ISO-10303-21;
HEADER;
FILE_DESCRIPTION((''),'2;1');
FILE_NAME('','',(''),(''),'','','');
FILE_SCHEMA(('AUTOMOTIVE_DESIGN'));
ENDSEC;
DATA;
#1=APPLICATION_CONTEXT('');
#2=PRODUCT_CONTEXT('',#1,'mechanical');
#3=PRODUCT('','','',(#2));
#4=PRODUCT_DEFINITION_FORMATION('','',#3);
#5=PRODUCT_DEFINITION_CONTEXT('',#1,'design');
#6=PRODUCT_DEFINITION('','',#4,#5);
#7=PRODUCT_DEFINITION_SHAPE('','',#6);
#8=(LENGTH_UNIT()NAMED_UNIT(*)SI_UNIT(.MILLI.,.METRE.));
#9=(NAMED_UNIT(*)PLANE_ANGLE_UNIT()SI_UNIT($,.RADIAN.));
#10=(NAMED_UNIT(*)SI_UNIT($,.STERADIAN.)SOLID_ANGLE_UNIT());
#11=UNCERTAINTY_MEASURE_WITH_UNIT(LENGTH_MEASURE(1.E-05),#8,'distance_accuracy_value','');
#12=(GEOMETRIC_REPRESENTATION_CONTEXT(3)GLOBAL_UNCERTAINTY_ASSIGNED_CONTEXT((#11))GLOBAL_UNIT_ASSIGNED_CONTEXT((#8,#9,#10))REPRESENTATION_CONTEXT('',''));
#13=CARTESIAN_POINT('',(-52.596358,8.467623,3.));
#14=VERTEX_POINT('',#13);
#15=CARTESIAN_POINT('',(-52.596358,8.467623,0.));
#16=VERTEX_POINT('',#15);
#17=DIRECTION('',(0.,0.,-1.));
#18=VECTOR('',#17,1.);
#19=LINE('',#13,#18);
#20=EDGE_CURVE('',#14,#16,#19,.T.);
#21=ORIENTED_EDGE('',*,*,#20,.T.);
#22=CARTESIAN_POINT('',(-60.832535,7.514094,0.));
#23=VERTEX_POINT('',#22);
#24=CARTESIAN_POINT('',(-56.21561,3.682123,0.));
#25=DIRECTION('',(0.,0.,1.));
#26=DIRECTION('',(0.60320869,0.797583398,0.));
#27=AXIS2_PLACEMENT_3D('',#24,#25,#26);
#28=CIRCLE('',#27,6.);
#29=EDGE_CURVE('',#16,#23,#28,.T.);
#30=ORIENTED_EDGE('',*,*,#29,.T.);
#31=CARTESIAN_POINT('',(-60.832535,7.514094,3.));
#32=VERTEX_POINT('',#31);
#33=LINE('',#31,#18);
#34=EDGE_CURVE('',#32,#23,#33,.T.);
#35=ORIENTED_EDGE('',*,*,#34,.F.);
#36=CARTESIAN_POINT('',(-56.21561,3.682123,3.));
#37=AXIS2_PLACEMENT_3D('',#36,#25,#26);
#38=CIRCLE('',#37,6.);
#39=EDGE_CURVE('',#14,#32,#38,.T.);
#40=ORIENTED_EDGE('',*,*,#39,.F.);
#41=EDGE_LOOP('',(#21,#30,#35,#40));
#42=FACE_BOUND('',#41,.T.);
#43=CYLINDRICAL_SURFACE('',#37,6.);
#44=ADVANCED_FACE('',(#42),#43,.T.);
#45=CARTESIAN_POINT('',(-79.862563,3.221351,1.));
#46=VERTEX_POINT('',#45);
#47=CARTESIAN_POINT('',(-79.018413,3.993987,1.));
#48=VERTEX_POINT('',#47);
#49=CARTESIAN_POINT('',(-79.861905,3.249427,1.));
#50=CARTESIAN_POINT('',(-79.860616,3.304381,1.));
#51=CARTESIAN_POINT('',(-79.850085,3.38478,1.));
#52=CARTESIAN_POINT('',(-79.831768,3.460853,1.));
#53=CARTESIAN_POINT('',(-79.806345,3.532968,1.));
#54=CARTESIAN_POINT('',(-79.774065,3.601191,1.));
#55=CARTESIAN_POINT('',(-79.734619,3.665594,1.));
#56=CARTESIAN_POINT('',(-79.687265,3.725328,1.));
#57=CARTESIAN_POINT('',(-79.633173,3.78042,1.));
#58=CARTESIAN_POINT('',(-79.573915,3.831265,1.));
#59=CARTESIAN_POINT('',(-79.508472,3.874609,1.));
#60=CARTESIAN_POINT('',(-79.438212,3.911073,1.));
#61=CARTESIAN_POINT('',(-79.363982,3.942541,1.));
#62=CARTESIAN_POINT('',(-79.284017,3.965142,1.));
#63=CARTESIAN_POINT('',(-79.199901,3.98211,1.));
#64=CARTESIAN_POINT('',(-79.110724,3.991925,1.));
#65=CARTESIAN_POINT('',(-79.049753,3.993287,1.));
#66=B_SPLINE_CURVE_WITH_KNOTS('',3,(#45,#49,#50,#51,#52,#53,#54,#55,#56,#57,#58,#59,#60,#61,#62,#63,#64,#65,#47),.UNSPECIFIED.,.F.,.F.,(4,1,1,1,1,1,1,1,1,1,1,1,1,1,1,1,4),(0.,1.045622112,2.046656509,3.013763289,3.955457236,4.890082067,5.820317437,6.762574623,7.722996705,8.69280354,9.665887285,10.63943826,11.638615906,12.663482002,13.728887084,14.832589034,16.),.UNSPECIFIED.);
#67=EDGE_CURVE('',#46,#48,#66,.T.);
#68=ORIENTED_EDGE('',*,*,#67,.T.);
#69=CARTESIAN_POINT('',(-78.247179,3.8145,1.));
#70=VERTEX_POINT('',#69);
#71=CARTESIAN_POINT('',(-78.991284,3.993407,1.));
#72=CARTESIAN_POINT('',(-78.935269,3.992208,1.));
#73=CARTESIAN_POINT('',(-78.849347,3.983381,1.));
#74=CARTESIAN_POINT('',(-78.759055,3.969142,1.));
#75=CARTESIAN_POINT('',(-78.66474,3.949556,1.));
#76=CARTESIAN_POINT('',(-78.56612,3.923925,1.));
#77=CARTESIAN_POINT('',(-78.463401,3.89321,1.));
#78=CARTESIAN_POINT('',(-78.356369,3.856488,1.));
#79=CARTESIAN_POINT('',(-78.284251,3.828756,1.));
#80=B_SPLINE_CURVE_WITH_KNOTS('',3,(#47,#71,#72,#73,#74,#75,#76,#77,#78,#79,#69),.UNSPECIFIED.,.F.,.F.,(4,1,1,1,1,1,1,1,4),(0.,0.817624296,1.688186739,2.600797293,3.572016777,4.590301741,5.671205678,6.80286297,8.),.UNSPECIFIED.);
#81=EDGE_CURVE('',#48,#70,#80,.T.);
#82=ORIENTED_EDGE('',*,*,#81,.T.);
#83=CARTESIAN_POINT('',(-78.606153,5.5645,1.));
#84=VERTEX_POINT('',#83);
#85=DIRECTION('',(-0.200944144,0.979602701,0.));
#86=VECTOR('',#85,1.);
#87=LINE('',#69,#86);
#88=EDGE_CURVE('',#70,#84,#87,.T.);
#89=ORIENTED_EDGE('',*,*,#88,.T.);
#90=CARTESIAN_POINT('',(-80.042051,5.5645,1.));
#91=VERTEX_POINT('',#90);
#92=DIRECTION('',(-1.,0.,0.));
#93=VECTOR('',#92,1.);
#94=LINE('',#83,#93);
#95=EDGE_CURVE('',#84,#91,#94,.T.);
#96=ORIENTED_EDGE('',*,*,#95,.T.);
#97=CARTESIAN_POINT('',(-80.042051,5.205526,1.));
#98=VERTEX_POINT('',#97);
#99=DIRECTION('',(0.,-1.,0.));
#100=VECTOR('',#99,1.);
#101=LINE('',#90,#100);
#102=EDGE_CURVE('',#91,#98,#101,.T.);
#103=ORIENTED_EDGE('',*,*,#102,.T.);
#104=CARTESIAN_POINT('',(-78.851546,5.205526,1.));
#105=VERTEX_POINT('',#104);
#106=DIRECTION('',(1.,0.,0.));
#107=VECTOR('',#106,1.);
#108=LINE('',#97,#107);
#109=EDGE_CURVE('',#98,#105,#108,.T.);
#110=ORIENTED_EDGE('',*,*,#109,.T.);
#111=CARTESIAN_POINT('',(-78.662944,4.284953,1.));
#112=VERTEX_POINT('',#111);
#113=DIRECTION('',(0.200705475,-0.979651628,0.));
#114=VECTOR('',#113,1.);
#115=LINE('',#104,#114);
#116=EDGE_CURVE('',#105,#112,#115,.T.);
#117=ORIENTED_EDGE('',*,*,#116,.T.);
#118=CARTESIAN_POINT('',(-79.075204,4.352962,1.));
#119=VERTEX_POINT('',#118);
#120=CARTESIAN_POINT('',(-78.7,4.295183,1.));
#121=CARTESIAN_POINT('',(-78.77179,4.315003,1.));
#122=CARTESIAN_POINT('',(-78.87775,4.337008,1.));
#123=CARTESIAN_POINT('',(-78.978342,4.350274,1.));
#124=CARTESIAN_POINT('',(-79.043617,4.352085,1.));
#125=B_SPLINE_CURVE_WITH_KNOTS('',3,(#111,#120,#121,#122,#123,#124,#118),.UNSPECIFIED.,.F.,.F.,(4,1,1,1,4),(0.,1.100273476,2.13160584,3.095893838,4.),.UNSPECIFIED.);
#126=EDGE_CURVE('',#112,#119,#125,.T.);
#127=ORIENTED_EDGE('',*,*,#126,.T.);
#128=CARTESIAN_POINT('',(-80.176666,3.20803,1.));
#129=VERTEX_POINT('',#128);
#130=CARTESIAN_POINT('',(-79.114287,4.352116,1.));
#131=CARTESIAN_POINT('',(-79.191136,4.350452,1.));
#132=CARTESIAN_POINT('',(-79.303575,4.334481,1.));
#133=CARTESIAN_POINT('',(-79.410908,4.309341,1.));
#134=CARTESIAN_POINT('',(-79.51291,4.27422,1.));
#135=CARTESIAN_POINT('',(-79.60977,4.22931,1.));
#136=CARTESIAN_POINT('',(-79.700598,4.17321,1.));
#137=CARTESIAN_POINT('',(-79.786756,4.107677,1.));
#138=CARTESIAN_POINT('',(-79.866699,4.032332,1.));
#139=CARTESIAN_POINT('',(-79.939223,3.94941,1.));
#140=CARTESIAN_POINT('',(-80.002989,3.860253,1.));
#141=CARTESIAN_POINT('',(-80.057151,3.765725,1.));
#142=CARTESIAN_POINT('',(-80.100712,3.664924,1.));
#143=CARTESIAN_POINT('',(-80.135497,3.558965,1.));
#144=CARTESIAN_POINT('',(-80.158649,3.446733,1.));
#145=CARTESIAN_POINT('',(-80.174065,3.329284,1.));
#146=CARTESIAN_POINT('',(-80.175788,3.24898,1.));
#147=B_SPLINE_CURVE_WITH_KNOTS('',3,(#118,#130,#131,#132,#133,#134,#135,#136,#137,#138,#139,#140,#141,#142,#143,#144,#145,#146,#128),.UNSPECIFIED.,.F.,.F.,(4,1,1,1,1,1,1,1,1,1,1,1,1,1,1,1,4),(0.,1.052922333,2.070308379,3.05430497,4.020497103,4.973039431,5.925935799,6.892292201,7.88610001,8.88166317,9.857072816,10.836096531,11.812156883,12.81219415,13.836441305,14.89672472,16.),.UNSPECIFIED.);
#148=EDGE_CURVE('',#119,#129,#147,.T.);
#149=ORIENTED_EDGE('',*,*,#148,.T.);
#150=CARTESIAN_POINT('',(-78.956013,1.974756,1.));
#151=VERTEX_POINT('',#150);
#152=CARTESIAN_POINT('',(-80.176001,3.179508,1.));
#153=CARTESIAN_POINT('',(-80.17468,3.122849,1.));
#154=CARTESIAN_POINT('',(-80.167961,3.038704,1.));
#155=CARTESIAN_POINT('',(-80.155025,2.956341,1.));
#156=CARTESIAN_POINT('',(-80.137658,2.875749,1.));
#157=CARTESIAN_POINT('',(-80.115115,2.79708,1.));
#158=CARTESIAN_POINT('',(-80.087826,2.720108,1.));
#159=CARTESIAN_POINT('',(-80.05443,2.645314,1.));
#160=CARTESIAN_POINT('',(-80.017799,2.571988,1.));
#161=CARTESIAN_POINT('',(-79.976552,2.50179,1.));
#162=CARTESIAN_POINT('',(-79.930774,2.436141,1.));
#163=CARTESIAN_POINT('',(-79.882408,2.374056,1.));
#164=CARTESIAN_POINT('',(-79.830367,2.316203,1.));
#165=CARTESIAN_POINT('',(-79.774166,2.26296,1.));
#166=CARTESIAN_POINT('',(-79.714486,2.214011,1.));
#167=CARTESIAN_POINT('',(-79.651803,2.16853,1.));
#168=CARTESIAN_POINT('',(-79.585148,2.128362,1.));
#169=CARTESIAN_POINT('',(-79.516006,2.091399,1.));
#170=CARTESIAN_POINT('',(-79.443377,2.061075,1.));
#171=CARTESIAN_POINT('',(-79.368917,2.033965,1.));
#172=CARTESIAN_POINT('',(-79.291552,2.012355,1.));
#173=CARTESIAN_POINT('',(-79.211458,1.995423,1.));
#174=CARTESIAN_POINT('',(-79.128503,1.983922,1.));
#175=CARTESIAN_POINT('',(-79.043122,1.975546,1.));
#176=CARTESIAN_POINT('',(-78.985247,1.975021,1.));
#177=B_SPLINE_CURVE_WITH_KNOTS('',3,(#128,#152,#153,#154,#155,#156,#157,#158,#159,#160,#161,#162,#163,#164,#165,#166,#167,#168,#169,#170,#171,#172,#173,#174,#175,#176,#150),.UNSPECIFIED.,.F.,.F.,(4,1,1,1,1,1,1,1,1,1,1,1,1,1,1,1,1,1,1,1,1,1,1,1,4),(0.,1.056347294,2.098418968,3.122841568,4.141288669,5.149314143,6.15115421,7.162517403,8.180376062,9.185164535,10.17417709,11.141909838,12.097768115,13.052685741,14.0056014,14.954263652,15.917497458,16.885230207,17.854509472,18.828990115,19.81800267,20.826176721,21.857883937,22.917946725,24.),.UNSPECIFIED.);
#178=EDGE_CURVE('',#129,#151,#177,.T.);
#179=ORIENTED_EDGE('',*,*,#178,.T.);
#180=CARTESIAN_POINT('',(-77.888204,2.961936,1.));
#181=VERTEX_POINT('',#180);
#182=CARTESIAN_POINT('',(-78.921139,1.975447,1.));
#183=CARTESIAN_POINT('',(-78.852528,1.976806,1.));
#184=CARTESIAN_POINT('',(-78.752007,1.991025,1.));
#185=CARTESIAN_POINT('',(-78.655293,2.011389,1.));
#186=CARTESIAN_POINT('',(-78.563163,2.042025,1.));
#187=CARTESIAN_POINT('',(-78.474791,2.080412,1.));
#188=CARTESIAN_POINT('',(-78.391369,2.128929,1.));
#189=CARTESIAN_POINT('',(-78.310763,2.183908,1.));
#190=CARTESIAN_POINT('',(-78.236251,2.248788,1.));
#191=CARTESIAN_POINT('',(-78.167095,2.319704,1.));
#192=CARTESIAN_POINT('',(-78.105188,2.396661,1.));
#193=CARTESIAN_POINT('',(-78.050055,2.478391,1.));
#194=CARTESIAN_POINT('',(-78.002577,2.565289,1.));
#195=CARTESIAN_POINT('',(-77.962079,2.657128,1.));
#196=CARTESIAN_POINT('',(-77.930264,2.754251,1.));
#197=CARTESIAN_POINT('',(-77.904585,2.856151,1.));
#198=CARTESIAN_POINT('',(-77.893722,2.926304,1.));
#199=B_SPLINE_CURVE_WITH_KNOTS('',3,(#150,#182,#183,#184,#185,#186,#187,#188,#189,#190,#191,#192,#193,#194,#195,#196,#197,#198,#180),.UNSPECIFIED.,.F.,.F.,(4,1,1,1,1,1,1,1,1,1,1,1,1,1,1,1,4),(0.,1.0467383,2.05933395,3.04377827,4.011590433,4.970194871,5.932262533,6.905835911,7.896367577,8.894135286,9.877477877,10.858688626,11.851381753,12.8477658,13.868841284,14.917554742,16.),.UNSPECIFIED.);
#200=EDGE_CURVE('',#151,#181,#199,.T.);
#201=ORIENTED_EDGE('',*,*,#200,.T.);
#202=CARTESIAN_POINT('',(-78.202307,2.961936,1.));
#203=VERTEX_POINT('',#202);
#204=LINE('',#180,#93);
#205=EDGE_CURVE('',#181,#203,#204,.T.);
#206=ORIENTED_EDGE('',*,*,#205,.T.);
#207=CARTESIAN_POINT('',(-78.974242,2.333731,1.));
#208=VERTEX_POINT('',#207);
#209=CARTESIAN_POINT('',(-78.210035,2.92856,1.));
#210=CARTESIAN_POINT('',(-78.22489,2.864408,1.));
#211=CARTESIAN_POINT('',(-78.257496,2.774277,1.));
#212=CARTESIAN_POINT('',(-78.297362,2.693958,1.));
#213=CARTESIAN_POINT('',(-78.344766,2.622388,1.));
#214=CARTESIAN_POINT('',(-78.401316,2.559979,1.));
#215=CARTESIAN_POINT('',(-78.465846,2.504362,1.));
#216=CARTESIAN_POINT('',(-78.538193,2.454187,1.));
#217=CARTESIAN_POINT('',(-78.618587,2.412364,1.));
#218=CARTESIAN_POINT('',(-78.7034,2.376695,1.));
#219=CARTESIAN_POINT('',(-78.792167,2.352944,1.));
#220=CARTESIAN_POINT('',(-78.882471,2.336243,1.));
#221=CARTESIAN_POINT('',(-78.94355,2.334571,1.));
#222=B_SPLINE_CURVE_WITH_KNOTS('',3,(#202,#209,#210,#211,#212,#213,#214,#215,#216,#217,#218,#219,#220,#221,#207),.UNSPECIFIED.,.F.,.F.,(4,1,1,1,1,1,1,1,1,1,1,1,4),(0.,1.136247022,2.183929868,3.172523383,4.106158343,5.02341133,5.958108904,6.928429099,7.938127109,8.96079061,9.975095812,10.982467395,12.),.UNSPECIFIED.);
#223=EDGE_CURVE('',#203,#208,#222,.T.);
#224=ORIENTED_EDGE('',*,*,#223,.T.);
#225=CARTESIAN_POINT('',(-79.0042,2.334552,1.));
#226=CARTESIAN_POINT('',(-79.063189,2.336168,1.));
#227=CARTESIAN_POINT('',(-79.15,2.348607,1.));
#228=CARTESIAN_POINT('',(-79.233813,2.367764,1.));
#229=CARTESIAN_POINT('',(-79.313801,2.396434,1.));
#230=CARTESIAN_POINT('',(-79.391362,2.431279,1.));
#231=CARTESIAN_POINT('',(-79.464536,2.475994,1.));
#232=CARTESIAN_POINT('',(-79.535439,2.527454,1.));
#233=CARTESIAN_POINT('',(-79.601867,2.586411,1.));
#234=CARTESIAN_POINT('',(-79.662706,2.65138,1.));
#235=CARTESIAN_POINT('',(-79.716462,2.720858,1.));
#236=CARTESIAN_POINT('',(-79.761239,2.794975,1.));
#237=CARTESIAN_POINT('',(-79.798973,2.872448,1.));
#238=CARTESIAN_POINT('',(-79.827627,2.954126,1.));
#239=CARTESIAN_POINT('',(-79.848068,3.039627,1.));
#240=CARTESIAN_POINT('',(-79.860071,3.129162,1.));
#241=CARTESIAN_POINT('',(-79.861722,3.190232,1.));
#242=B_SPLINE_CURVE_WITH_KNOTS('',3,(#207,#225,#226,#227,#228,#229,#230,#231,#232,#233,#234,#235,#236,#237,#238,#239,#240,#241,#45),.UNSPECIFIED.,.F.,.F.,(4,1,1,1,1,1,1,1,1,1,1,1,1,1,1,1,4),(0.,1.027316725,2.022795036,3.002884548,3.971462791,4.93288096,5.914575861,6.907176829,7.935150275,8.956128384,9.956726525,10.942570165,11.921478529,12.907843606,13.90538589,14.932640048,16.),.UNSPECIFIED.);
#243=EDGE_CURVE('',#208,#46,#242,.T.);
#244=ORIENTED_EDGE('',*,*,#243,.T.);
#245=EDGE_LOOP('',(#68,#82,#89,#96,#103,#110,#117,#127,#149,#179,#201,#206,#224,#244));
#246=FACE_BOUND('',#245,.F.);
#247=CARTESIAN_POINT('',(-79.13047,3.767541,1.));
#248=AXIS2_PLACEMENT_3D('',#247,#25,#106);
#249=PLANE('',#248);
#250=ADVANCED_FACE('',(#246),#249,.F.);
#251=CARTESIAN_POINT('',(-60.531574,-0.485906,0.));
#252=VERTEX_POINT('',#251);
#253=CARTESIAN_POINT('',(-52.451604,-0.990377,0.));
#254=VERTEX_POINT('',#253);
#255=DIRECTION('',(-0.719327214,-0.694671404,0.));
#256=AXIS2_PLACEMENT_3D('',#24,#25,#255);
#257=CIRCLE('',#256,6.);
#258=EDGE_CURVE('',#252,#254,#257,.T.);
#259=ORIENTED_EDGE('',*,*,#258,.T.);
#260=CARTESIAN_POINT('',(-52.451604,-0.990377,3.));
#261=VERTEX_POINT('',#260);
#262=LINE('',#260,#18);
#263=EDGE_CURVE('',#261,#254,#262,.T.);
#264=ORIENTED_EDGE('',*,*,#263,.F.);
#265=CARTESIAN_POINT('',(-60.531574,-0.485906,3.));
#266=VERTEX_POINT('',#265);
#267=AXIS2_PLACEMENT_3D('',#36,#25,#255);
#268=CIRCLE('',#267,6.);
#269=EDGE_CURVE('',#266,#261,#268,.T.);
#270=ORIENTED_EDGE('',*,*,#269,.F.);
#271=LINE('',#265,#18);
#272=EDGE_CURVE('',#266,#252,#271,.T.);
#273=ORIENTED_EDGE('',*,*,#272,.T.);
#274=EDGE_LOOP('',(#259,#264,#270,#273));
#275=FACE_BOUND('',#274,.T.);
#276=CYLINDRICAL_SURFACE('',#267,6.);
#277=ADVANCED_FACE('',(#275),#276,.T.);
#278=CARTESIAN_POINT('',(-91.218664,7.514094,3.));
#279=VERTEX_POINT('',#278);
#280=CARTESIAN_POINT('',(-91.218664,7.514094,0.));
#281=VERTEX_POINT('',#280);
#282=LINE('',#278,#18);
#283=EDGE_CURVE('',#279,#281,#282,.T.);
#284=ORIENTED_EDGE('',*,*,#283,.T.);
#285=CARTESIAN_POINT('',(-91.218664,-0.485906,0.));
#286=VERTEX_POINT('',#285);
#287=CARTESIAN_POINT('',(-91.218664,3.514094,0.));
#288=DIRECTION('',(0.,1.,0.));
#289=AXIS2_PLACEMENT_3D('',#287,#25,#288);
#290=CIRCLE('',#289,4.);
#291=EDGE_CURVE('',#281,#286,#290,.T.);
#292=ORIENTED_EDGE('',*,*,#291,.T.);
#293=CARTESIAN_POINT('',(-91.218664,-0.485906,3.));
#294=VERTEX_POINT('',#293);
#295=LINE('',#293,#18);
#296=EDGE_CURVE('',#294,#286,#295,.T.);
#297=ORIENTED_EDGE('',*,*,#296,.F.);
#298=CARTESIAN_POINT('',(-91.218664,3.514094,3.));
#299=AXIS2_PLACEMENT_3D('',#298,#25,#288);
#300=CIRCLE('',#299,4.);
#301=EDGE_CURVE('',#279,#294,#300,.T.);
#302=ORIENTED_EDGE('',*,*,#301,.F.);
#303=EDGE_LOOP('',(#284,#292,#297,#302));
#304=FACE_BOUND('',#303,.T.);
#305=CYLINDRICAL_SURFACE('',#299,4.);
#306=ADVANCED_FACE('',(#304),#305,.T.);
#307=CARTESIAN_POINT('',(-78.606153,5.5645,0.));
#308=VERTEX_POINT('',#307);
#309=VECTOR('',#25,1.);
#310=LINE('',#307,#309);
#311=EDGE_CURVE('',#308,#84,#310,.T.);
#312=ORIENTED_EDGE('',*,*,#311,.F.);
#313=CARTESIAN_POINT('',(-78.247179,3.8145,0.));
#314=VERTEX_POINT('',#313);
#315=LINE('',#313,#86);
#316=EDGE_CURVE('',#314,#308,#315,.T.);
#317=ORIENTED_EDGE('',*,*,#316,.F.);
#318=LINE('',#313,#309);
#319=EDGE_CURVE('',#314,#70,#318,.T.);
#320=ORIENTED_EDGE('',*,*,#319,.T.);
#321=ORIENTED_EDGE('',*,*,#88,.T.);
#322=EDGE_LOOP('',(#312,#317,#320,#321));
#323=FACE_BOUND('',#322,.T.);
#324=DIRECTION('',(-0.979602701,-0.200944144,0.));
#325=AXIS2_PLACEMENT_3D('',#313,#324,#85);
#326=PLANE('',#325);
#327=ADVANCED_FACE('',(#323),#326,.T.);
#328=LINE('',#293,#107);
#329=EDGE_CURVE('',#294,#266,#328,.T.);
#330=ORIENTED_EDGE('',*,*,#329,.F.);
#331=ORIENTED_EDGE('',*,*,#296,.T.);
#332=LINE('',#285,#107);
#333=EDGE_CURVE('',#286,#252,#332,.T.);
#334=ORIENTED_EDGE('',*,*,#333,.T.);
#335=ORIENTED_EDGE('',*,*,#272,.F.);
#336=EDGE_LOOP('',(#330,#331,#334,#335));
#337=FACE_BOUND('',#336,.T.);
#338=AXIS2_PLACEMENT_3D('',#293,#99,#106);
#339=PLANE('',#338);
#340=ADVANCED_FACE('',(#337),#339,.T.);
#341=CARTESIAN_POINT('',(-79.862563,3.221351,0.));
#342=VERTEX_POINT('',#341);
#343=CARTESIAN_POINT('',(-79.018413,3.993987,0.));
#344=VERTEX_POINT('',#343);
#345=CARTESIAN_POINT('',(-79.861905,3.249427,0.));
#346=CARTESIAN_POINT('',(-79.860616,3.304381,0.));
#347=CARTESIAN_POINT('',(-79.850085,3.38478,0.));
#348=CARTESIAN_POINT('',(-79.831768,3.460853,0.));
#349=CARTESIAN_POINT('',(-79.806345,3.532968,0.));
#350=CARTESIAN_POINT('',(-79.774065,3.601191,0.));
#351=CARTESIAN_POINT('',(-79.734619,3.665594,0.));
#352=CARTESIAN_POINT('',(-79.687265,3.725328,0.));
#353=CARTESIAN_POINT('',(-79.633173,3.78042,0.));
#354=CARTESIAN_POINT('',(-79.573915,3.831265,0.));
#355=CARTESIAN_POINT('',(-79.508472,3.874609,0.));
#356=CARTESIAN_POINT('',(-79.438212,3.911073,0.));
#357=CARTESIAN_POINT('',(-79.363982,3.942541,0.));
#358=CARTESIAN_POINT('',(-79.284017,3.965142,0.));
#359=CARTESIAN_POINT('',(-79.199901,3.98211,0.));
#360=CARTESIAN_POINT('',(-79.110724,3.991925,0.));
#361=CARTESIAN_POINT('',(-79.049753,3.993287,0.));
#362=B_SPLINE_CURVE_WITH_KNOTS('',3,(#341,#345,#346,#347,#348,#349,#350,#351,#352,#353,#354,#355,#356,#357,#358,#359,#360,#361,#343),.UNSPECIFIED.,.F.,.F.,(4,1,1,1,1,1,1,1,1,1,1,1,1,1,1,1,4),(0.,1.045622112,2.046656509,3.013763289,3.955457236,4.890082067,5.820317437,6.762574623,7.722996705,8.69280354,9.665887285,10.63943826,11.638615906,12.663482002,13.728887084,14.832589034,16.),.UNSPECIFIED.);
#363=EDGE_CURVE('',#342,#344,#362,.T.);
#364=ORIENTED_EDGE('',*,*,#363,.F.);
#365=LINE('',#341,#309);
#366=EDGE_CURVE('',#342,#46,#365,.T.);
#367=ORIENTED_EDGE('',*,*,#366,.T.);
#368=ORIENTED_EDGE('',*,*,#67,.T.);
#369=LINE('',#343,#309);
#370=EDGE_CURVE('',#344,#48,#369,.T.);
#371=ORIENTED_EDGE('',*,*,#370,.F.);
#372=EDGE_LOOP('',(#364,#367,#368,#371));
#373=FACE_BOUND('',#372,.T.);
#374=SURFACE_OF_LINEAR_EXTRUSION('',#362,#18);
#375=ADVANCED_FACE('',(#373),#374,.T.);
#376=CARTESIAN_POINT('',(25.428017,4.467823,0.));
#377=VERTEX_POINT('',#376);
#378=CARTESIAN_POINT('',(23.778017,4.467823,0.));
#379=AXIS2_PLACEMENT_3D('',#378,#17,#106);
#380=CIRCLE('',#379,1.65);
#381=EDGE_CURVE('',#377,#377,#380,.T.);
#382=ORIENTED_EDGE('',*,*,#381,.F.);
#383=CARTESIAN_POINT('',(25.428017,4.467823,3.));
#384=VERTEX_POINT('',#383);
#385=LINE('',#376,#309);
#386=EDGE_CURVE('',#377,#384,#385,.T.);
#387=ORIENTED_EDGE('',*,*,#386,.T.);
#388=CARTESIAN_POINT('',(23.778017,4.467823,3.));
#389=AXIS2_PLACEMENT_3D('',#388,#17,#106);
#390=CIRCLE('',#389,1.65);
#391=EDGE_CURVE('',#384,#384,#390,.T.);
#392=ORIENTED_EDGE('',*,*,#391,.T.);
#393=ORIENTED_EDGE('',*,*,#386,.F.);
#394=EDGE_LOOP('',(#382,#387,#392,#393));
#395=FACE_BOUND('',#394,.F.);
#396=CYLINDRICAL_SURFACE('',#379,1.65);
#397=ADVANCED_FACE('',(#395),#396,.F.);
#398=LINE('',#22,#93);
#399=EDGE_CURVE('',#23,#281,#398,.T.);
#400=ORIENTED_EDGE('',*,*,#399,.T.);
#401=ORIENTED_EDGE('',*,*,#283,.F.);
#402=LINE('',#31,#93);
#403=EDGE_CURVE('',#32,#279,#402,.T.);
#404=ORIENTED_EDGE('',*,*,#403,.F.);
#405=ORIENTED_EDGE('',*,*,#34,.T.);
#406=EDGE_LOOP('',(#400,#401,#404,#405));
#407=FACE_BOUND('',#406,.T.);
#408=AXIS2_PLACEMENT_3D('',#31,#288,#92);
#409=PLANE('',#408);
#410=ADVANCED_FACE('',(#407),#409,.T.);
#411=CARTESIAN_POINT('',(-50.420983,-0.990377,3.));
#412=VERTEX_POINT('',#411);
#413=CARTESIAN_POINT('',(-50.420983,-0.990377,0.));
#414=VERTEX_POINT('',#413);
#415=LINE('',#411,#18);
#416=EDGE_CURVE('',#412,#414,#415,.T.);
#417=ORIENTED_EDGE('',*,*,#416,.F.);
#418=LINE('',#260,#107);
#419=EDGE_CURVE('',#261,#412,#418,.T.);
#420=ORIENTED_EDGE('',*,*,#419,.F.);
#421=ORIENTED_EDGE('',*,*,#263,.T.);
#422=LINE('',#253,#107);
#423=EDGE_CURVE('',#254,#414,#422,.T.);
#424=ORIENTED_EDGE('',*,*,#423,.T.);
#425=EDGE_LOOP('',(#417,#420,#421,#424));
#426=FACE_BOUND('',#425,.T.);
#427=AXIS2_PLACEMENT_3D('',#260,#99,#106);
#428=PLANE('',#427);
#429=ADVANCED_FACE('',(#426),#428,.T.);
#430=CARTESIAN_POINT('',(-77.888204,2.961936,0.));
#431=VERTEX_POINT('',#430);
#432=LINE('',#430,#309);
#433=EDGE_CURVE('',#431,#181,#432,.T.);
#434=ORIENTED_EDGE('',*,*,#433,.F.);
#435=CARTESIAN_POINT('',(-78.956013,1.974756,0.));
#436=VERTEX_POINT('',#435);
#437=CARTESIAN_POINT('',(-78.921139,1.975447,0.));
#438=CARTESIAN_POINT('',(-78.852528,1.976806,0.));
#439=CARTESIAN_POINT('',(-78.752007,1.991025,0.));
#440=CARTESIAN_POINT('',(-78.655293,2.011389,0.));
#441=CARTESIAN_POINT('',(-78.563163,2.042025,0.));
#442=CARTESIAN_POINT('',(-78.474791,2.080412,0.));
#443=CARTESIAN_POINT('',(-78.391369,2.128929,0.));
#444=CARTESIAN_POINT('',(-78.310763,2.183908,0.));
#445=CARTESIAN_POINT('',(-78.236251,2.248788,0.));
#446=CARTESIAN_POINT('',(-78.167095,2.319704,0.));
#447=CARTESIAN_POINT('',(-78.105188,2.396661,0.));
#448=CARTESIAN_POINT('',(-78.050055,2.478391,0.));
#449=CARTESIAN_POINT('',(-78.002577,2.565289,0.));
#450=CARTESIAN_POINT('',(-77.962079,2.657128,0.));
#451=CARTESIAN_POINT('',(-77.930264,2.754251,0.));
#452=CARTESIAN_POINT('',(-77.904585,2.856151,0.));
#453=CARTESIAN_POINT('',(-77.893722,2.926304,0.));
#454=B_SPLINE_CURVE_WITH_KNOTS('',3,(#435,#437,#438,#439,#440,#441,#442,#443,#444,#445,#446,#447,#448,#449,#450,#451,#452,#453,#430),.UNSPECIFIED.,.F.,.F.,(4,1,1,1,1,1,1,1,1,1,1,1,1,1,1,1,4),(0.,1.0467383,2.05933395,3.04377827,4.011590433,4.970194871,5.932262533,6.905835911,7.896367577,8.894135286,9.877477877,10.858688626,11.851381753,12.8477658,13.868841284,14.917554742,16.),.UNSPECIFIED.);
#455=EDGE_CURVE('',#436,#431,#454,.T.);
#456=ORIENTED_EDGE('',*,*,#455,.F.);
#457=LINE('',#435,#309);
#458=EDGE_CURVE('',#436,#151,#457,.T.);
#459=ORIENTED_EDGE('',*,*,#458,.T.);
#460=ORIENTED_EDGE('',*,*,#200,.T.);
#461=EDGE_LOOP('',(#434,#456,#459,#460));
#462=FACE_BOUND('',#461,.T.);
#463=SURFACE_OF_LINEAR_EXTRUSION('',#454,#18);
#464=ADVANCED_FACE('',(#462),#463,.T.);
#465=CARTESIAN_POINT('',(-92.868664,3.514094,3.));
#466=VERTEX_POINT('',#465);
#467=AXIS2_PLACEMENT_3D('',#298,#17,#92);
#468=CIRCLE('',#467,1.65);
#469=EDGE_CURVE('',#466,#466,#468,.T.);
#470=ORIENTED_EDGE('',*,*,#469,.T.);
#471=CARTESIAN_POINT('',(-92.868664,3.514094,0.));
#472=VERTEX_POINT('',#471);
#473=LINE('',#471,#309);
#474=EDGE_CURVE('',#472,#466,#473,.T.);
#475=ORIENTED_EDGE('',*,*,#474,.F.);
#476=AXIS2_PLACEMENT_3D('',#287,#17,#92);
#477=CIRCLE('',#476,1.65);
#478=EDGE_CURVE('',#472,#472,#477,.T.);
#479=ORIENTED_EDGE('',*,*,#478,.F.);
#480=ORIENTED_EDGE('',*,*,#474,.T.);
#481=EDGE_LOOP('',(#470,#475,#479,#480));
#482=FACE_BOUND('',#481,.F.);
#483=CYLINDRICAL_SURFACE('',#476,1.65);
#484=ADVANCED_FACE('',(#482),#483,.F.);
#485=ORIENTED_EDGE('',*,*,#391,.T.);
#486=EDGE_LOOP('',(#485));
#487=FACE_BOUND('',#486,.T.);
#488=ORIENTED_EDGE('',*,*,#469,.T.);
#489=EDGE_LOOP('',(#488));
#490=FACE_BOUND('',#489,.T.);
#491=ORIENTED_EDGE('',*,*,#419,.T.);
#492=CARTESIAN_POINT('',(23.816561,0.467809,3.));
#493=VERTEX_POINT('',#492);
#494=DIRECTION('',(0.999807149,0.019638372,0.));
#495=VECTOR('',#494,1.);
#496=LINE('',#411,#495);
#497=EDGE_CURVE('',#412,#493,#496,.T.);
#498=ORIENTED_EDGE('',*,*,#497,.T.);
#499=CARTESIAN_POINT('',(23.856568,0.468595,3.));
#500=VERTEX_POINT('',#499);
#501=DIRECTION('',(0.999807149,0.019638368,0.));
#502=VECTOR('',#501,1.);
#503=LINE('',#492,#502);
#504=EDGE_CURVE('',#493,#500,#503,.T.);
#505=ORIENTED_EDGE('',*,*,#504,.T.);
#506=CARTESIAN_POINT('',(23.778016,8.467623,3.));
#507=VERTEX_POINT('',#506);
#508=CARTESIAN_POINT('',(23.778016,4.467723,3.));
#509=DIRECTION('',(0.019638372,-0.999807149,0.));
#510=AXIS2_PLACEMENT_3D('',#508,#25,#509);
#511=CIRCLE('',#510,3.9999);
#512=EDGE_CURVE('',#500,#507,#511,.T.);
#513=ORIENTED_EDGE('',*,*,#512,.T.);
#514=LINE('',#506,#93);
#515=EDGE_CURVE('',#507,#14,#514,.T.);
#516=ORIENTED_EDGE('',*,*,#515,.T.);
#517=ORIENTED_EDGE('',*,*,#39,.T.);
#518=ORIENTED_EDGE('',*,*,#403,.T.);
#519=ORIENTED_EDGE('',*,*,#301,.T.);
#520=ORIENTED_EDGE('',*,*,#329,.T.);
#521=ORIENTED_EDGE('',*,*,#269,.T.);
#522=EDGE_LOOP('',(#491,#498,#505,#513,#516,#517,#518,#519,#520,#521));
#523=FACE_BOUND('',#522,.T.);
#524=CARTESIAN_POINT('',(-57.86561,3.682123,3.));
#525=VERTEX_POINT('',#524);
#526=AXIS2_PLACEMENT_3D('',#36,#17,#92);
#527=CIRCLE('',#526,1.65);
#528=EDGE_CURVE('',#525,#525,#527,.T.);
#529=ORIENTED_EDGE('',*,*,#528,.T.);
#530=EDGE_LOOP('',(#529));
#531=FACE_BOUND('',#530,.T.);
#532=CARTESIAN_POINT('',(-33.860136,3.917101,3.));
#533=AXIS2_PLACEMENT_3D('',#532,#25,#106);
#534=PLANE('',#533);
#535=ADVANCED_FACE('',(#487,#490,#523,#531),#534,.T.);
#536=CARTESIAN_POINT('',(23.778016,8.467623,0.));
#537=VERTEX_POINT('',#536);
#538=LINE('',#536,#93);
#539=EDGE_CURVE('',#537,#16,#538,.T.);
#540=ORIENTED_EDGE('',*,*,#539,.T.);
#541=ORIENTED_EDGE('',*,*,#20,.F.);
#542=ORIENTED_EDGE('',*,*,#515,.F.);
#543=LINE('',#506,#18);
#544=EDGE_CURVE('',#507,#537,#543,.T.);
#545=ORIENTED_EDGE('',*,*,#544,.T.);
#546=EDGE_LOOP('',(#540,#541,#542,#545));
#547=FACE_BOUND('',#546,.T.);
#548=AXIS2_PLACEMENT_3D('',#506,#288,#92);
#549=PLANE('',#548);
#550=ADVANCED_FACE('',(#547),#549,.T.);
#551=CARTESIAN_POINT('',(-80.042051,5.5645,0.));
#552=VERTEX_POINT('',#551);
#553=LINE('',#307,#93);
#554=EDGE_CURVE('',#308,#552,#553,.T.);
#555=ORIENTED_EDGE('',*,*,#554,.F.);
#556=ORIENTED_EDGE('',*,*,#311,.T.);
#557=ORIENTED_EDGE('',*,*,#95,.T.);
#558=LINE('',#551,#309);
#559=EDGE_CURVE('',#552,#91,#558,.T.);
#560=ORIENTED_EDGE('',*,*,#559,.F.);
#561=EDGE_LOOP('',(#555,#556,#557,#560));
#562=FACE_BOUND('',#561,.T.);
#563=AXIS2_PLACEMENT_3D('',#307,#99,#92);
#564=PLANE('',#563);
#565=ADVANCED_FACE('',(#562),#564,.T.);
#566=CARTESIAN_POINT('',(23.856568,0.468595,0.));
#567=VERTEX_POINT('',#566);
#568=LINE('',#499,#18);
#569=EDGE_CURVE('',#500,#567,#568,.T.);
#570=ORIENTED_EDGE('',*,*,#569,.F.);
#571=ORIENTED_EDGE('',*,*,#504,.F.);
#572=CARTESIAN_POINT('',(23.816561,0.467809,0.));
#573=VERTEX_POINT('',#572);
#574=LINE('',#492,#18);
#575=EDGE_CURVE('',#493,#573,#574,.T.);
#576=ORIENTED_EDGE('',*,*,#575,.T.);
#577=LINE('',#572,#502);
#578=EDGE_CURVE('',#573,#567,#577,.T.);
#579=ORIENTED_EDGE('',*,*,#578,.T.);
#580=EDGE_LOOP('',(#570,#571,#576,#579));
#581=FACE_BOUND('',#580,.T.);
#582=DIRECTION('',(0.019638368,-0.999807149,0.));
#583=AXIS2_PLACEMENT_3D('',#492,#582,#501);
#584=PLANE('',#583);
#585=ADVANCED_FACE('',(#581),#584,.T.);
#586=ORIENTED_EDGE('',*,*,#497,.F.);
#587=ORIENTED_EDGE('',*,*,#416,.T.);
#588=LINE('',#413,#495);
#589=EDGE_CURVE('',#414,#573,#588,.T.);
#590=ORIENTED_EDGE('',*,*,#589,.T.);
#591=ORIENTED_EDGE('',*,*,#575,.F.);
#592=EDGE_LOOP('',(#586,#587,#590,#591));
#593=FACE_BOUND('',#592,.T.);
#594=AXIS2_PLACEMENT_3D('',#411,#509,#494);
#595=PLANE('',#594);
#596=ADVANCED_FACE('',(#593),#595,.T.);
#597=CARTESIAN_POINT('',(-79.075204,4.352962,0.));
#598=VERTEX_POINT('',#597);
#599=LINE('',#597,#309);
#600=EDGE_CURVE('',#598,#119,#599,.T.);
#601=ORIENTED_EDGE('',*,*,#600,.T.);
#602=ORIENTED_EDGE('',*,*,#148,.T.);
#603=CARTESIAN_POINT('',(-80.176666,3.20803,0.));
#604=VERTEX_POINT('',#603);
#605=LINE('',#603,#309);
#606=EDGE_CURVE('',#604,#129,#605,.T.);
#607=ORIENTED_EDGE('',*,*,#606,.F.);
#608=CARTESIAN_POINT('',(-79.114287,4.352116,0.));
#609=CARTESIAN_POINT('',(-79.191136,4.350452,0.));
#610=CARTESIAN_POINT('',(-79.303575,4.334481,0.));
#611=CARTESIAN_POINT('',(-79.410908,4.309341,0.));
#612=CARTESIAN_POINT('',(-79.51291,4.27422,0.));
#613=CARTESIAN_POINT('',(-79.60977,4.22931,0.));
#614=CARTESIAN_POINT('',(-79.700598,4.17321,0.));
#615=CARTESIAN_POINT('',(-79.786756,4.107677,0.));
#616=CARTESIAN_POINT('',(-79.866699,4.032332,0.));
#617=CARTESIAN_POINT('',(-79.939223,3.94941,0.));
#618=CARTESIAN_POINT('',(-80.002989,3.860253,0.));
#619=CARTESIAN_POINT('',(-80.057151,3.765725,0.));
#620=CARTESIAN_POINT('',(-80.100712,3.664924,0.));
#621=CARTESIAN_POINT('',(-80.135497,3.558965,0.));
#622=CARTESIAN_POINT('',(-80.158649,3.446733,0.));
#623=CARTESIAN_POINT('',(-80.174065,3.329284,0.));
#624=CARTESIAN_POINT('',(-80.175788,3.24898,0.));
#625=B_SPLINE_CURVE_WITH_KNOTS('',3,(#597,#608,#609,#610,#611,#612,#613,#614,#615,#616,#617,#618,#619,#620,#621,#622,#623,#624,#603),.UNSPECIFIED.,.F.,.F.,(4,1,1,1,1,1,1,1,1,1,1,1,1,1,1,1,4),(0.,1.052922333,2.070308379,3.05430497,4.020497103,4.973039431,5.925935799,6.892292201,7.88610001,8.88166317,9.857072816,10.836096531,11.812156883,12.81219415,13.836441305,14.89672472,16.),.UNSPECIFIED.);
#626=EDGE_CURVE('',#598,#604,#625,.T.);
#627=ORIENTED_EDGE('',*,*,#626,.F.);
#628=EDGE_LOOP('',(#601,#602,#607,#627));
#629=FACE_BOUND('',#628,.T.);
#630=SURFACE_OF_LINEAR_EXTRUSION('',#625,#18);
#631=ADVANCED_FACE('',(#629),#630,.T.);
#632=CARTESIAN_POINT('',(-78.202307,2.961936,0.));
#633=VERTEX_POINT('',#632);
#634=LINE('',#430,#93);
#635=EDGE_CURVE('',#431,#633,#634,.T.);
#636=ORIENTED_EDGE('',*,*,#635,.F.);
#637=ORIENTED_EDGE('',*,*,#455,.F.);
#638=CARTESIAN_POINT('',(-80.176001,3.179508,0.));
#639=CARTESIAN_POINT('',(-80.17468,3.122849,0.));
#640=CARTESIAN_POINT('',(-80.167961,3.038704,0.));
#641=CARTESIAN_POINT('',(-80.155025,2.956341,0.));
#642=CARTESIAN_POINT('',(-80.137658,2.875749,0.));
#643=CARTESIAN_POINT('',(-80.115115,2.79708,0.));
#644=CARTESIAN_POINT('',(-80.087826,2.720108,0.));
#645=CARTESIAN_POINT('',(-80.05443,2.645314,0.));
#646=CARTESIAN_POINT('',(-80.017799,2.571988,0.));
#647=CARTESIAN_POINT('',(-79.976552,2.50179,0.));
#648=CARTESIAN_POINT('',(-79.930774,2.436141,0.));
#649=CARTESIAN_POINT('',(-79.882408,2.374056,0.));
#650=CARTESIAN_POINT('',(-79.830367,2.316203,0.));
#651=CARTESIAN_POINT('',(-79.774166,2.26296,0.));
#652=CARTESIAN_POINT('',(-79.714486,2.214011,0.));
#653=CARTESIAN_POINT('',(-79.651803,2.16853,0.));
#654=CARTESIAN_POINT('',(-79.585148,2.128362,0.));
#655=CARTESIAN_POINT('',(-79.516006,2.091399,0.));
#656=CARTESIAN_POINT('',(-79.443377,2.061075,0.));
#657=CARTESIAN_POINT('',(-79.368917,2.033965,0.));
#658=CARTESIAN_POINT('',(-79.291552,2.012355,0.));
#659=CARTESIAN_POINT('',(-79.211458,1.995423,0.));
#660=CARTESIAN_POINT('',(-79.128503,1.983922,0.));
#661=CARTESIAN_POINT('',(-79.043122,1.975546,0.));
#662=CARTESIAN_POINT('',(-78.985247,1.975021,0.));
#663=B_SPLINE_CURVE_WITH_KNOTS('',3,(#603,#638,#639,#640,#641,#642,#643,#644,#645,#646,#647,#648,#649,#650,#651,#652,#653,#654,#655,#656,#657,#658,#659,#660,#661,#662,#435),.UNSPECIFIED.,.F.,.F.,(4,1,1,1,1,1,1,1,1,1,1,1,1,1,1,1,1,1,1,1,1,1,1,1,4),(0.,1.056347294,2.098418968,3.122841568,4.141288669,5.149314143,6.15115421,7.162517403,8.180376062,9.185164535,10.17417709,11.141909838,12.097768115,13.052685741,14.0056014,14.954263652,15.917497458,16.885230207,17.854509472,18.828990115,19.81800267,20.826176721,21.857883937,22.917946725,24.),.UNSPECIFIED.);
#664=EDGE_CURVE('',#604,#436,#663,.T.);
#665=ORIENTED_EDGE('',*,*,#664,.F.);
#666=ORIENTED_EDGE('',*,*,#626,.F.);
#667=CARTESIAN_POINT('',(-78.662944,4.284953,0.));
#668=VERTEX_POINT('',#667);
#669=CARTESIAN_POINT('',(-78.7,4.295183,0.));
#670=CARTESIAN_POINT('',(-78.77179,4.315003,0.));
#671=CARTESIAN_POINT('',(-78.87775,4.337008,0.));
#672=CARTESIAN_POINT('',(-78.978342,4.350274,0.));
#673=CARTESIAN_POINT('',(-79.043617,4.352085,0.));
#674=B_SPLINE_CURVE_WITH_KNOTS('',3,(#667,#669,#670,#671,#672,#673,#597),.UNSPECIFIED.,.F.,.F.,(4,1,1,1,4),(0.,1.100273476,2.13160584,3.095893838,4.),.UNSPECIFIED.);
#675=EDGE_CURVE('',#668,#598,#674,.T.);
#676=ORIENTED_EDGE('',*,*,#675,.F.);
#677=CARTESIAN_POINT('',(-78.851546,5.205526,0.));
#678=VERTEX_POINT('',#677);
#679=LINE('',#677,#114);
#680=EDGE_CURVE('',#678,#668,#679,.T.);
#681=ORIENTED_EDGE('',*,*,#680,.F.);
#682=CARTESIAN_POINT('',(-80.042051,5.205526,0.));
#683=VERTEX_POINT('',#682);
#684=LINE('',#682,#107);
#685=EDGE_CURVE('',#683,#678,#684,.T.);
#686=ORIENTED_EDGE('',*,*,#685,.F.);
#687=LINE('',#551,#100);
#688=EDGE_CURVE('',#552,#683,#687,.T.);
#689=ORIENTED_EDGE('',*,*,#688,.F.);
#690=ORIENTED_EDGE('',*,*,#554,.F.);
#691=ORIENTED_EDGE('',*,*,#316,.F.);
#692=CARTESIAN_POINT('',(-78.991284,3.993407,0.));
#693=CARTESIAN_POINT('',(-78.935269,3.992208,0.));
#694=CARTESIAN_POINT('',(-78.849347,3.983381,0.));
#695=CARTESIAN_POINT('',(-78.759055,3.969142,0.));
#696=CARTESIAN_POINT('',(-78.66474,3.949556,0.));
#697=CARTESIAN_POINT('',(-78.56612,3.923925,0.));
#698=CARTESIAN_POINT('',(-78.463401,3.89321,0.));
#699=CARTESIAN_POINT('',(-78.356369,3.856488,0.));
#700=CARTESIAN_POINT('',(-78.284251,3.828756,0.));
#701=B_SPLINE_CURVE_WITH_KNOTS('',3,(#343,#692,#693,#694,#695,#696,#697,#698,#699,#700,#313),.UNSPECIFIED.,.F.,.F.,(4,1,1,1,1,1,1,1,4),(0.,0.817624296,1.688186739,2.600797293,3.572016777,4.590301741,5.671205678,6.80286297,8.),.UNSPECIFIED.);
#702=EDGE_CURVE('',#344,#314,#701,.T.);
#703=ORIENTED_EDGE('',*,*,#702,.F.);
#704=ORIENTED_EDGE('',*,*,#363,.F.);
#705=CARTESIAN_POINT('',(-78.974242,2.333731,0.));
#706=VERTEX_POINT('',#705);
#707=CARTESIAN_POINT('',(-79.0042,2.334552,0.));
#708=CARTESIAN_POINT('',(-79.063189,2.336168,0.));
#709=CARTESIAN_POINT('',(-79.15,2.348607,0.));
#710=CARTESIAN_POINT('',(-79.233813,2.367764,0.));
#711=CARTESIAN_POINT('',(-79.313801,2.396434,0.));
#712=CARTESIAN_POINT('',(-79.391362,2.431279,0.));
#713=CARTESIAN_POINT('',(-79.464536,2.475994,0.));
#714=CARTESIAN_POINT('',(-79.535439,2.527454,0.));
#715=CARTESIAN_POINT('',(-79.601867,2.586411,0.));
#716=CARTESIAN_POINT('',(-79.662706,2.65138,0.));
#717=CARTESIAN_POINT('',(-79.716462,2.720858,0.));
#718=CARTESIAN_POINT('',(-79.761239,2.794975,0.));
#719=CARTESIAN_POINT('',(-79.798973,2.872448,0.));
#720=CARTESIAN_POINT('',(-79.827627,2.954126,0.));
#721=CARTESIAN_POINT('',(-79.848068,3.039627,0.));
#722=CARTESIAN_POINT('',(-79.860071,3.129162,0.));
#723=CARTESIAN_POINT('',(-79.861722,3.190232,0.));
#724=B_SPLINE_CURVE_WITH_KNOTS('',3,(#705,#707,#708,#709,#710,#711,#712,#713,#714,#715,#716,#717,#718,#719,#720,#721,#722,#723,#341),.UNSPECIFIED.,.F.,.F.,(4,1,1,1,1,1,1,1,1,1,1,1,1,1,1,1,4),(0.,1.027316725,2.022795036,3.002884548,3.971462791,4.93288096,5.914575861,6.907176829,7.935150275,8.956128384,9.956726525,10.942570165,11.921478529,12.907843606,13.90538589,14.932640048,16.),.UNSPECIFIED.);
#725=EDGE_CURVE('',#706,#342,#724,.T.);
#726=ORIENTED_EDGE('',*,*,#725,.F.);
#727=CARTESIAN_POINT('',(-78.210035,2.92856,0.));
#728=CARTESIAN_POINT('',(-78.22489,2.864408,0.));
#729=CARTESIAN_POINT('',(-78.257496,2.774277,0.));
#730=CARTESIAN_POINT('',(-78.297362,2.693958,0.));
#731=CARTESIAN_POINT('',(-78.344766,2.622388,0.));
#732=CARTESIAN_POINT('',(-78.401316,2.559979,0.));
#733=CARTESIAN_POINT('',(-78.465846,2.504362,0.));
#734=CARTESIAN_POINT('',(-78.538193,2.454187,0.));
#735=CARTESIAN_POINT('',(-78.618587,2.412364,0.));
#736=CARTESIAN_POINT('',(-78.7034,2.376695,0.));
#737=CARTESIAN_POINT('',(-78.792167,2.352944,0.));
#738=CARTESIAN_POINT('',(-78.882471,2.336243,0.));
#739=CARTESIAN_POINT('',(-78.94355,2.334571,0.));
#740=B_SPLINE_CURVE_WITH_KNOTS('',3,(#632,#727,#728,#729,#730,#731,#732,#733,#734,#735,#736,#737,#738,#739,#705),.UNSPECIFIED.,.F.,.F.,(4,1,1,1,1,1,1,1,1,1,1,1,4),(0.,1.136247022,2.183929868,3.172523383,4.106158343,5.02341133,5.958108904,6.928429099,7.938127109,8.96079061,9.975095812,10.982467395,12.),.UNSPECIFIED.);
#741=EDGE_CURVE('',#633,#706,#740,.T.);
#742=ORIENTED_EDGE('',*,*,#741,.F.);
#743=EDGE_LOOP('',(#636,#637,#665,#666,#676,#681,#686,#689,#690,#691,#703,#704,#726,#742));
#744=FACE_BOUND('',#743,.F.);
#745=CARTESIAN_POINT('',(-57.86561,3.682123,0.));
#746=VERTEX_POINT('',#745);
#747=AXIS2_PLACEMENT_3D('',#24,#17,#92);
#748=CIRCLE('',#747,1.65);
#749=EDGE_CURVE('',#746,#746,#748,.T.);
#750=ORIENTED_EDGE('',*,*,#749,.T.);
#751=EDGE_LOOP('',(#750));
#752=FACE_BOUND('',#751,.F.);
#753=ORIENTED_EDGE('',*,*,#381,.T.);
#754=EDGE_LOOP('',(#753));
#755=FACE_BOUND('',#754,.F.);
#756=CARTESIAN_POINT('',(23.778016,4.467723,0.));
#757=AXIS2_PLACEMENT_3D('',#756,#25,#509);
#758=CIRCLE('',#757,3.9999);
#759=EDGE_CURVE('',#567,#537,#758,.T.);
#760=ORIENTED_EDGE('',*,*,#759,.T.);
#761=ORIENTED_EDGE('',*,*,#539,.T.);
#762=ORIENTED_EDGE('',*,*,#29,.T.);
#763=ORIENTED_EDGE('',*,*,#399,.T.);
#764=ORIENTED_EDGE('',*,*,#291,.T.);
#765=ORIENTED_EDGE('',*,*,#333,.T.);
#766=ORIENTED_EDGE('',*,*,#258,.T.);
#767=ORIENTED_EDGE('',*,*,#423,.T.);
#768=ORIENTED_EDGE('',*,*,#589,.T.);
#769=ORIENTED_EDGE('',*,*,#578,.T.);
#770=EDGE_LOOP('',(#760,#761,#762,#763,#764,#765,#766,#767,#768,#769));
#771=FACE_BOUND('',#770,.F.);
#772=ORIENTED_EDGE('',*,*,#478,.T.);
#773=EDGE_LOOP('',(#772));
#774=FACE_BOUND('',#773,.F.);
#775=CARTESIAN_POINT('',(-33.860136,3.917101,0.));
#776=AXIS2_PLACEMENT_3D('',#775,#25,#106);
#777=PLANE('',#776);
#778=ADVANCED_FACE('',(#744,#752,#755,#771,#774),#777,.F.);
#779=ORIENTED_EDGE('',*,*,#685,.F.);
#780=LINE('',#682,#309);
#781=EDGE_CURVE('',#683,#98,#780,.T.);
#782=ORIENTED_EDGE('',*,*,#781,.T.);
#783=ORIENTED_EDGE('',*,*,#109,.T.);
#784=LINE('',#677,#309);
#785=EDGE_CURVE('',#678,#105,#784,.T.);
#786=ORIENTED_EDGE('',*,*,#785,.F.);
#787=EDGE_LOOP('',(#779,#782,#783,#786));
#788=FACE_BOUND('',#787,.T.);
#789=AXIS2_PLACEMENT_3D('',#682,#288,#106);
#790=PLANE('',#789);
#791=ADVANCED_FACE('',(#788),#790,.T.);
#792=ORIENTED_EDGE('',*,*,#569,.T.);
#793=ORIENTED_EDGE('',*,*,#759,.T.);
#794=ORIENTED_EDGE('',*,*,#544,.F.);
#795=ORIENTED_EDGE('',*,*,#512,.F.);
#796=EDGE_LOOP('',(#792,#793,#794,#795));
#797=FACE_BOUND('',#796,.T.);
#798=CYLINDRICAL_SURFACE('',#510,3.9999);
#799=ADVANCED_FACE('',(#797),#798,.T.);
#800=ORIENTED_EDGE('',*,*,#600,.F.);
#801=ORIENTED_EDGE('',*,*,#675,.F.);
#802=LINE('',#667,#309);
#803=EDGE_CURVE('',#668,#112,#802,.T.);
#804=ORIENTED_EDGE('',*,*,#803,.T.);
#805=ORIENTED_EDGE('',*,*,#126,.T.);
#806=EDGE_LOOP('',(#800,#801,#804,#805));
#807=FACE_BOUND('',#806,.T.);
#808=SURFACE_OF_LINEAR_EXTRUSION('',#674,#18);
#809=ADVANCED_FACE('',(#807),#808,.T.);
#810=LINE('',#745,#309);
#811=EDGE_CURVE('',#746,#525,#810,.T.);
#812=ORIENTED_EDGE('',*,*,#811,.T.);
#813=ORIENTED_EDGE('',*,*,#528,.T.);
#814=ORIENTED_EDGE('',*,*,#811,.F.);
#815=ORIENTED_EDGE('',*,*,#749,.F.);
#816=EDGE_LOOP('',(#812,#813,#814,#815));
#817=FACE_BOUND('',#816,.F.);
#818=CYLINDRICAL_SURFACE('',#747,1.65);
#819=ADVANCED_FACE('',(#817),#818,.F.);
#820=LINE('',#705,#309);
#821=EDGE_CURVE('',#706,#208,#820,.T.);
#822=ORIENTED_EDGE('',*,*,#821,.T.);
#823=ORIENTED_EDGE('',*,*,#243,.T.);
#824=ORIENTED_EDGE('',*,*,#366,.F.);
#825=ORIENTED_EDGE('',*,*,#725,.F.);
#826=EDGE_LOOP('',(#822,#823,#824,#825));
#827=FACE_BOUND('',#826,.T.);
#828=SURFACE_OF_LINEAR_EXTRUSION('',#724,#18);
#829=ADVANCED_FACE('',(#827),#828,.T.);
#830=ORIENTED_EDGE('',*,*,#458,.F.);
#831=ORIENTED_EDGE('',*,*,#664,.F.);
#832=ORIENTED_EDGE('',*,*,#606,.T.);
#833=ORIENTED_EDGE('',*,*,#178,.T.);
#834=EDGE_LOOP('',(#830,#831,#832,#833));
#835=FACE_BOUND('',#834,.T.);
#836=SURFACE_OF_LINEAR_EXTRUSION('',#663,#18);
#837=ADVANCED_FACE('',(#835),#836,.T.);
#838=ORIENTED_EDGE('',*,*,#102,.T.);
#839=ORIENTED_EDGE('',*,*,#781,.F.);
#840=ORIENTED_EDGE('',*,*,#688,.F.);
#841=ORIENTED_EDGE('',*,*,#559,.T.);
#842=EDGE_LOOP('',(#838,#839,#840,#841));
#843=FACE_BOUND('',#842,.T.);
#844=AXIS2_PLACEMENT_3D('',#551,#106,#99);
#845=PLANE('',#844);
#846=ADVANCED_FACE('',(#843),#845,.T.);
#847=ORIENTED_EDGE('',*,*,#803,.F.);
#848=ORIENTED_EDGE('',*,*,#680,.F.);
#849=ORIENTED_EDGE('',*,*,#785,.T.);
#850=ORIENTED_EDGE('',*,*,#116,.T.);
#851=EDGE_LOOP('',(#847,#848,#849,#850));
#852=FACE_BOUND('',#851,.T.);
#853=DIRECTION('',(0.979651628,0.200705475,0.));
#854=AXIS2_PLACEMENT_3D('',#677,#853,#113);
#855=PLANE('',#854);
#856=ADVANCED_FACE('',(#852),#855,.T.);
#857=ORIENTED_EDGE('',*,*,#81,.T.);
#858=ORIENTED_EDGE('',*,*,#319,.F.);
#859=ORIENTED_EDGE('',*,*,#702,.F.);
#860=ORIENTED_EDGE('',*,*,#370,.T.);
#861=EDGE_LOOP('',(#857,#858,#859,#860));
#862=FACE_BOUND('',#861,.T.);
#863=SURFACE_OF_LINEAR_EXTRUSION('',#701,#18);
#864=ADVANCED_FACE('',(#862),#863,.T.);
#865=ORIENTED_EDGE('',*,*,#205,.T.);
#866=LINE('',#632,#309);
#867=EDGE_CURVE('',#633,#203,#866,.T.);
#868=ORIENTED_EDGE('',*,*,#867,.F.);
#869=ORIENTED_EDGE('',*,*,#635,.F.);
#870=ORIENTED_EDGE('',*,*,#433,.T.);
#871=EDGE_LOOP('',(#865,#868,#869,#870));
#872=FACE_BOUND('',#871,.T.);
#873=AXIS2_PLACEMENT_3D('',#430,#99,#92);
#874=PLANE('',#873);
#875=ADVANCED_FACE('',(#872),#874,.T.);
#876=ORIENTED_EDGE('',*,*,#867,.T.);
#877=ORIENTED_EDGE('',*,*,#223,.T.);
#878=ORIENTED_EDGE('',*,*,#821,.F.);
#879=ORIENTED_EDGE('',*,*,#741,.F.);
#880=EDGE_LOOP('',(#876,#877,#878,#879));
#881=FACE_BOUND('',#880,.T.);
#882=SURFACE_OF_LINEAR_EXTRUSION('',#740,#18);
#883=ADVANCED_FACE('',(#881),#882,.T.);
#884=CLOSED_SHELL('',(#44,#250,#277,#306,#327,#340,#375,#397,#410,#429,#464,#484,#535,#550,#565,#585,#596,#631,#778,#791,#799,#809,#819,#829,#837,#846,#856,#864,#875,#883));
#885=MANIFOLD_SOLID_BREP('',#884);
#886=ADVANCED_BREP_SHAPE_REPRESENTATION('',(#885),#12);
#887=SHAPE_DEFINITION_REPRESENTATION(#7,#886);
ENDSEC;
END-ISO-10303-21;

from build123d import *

# Parameters (mm, degrees)
EXTRUDE_1_DEPTH     = 3
SKETCH_2_R          = 1.35
CUT_EXTRUDE_1_DEPTH = 2.444444444
SKETCH_3_R          = 1.65
CUT_EXTRUDE_3_DEPTH = 96.756657889
CUT_EXTRUDE_4_DEPTH = 1


with BuildPart() as part:
    # 草图1 → 凸台-拉伸1 (new body)
    with BuildSketch(Plane.XY.offset(3)):
        with BuildLine():
            Line((-60.832535173, 7.514094179), (-91.218664305, 7.514094179))
            ThreePointArc((-91.218664305, 7.514094179), (-95.218664305, 3.514094179), (-91.218664305, -0.485905821))
            Line((-91.218664305, -0.485905821), (-60.531573746, -0.485905821))
            ThreePointArc((-60.531573746, -0.485905821), (-56.589491156, -2.306217172), (-52.451603626, -0.990377005))
            Line((-52.451603626, -0.990377005), (-50.420982545, -0.990377005))
            Line((-50.420982545, -0.990377005), (23.816560918, 0.467808699))
            Line((23.816560918, 0.467808699), (23.856567982, 0.468594524))
            ThreePointArc((23.856567982, 0.468594524), (27.777723532, 4.507000717), (23.778016459, 8.467622986))
            Line((23.778016459, 8.467622986), (-52.596358319, 8.467622986))
            ThreePointArc((-52.596358319, 8.467622986), (-56.905640848, 9.642312032), (-60.832535173, 7.514094179))
        make_face()
    extrude(amount=-EXTRUDE_1_DEPTH)

    # 草图2 → 切除-拉伸1 (cut)
    with BuildSketch(Plane.XY.offset(3)):
        with Locations(Location((23.77801746, 4.467622995, 0), (0, 0, 180))):
            Circle(SKETCH_2_R)
    extrude(amount=-CUT_EXTRUDE_1_DEPTH, mode=Mode.SUBTRACT)

    # 草图3 → 切除-拉伸3 (cut, through all)
    with BuildSketch(Plane(origin=(0, 0, 0), x_dir=(-1, 0, 0), z_dir=(0, 0, -1))):
        with Locations(Location((-23.778017455, 4.467823177, 0), (0, 0, 180))):
            Circle(SKETCH_3_R)
        with Locations((56.215610459, 3.6821226)):
            Circle(SKETCH_3_R)
        with Locations((91.218664305, 3.514094179)):
            Circle(SKETCH_3_R)
    extrude(amount=-CUT_EXTRUDE_3_DEPTH, mode=Mode.SUBTRACT)

    # 草图4 → 切除-拉伸4 (cut)
    with BuildSketch(Plane(origin=(0, 0, 0), x_dir=(-1, 0, 0), z_dir=(0, 0, -1))):
        with BuildLine():
            Line((80.04205053, 5.564500073), (80.04205053, 5.205525714))
            Line((80.04205053, 5.205525714), (78.851545722, 5.205525714))
            Line((78.851545722, 5.205525714), (78.662943959, 4.284952797))
            add(Edge.make_bspline(
                [(78.662943959, 4.284952797), (78.699999834, 4.295183069), (78.77178973, 4.315002603), (78.877749591, 4.337008373), (78.978341794, 4.350273817), (79.043617164, 4.352085128), (79.075203575, 4.352961612)],
                knots=[0, 0, 0, 0, 1.100273476, 2.13160584, 3.095893838, 4, 4, 4, 4], degree=3))
            add(Edge.make_bspline(
                [(79.075203575, 4.352961612), (79.114287314, 4.352115676), (79.191135712, 4.350452355), (79.303574659, 4.334480505), (79.410907552, 4.309340591), (79.512909922, 4.274220069), (79.609770473, 4.229310336), (79.700598034, 4.173210396), (79.786755947, 4.107677064), (79.866698541, 4.032332052), (79.939222849, 3.949410436), (80.002988839, 3.860252565), (80.057151429, 3.765724903), (80.100712184, 3.664924294), (80.135496519, 3.55896514), (80.158648513, 3.446732558), (80.174065222, 3.329284438), (80.175787609, 3.248979868), (80.176665915, 3.208029721)],
                knots=[0, 0, 0, 0, 1.052922333, 2.070308379, 3.05430497, 4.020497103, 4.973039431, 5.925935799, 6.892292201, 7.88610001, 8.88166317, 9.857072816, 10.836096531, 11.812156883, 12.81219415, 13.836441305, 14.89672472, 16, 16, 16, 16], degree=3))
            add(Edge.make_bspline(
                [(80.176665915, 3.208029721), (80.176000839, 3.1795075), (80.174679677, 3.122848513), (80.167961089, 3.038704312), (80.155025373, 2.956341479), (80.137657649, 2.875749087), (80.115115231, 2.797079715), (80.087826177, 2.720108187), (80.054430149, 2.64531358), (80.017798774, 2.571988185), (79.976552296, 2.501789678), (79.930773789, 2.436140691), (79.882408298, 2.37405641), (79.830366912, 2.316202677), (79.774165917, 2.262959659), (79.71448595, 2.214011377), (79.651803231, 2.168530047), (79.585147989, 2.128361852), (79.516005506, 2.091398896), (79.443377289, 2.061075359), (79.368916588, 2.03396483), (79.291551713, 2.012355303), (79.2114579, 1.995422748), (79.128503125, 1.983922148), (79.043122455, 1.97554571), (78.985247442, 1.975021353), (78.95601287, 1.974756483)],
                knots=[0, 0, 0, 0, 1.056347294, 2.098418968, 3.122841568, 4.141288669, 5.149314143, 6.15115421, 7.162517403, 8.180376062, 9.185164535, 10.17417709, 11.141909838, 12.097768115, 13.052685741, 14.0056014, 14.954263652, 15.917497458, 16.885230207, 17.854509472, 18.828990115, 19.81800267, 20.826176721, 21.857883937, 22.917946725, 24, 24, 24, 24], degree=3))
            add(Edge.make_bspline(
                [(78.95601287, 1.974756483), (78.921138689, 1.975447321), (78.852527858, 1.976806463), (78.752007291, 1.991024949), (78.655292685, 2.011388865), (78.563162584, 2.042025135), (78.474791321, 2.08041243), (78.391368603, 2.128928601), (78.310762827, 2.183907705), (78.23625079, 2.248788058), (78.167094677, 2.31970374), (78.105188168, 2.396661381), (78.050054591, 2.478390823), (78.002576844, 2.565288977), (77.962078823, 2.657127508), (77.930263834, 2.754250509), (77.904585479, 2.856150513), (77.893722059, 2.926304023), (77.888204376, 2.961935971)],
                knots=[0, 0, 0, 0, 1.0467383, 2.05933395, 3.04377827, 4.011590433, 4.970194871, 5.932262533, 6.905835911, 7.896367577, 8.894135286, 9.877477877, 10.858688626, 11.851381753, 12.8477658, 13.868841284, 14.917554742, 16, 16, 16, 16], degree=3))
            Line((77.888204376, 2.961935971), (78.20230694, 2.961935971))
            add(Edge.make_bspline(
                [(78.20230694, 2.961935971), (78.210035498, 2.928559518), (78.224890214, 2.864408123), (78.257495963, 2.774276782), (78.297361838, 2.693957558), (78.344766187, 2.622387975), (78.401316217, 2.559978978), (78.465845646, 2.504361916), (78.538193369, 2.454186786), (78.618586599, 2.412364019), (78.703399678, 2.376695266), (78.792166888, 2.352943571), (78.882471235, 2.336242678), (78.943549605, 2.334570917), (78.974242036, 2.333730842)],
                knots=[0, 0, 0, 0, 1.136247022, 2.183929868, 3.172523383, 4.106158343, 5.02341133, 5.958108904, 6.928429099, 7.938127109, 8.96079061, 9.975095812, 10.982467395, 12, 12, 12, 12], degree=3))
            add(Edge.make_bspline(
                [(78.974242036, 2.333730842), (79.004200481, 2.33455162), (79.063188903, 2.336167739), (79.15000029, 2.348606751), (79.233813164, 2.367764322), (79.313800521, 2.396434177), (79.39136206, 2.431278895), (79.464535831, 2.475993971), (79.535438708, 2.52745399), (79.601866841, 2.58641062), (79.662706291, 2.651380314), (79.716462412, 2.720857708), (79.761239325, 2.794974554), (79.798973434, 2.872447707), (79.827626733, 2.954126264), (79.848067714, 3.03962744), (79.860070773, 3.12916242), (79.861721953, 3.19023173), (79.86256335, 3.221351035)],
                knots=[0, 0, 0, 0, 1.027316725, 2.022795036, 3.002884548, 3.971462791, 4.93288096, 5.914575861, 6.907176829, 7.935150275, 8.956128384, 9.956726525, 10.942570165, 11.921478529, 12.907843606, 13.90538589, 14.932640048, 16, 16, 16, 16], degree=3))
            add(Edge.make_bspline(
                [(79.86256335, 3.221351035), (79.861904871, 3.249426786), (79.860615991, 3.304381075), (79.850085421, 3.384780282), (79.831768448, 3.460853324), (79.806344569, 3.532967558), (79.774065061, 3.601191), (79.734618748, 3.665594061), (79.687265351, 3.725327894), (79.633173462, 3.780420447), (79.573915421, 3.831265322), (79.508471678, 3.874609409), (79.438211752, 3.911073326), (79.363982152, 3.942541325), (79.284017254, 3.96514207), (79.199900621, 3.982109956), (79.110723913, 3.991925318), (79.049753225, 3.993287207), (79.018412709, 3.993987253)],
                knots=[0, 0, 0, 0, 1.045622112, 2.046656509, 3.013763289, 3.955457236, 4.890082067, 5.820317437, 6.762574623, 7.722996705, 8.69280354, 9.665887285, 10.63943826, 11.638615906, 12.663482002, 13.728887084, 14.832589034, 16, 16, 16, 16], degree=3))
            add(Edge.make_bspline(
                [(79.018412709, 3.993987253), (78.991283781, 3.993406661), (78.935269425, 3.992207888), (78.849346599, 3.983381391), (78.759054876, 3.969142097), (78.66474038, 3.949555849), (78.566119872, 3.923924772), (78.463401471, 3.893210272), (78.356369205, 3.856488273), (78.28425148, 3.828756059), (78.247178735, 3.814500073)],
                knots=[0, 0, 0, 0, 0.817624296, 1.688186739, 2.600797293, 3.572016777, 4.590301741, 5.671205678, 6.80286297, 8, 8, 8, 8], degree=3))
            Line((78.247178735, 3.814500073), (78.606153094, 5.564500073))
            Line((78.606153094, 5.564500073), (80.04205053, 5.564500073))
        make_face()
    extrude(amount=-CUT_EXTRUDE_4_DEPTH, mode=Mode.SUBTRACT)


solid = part.part
